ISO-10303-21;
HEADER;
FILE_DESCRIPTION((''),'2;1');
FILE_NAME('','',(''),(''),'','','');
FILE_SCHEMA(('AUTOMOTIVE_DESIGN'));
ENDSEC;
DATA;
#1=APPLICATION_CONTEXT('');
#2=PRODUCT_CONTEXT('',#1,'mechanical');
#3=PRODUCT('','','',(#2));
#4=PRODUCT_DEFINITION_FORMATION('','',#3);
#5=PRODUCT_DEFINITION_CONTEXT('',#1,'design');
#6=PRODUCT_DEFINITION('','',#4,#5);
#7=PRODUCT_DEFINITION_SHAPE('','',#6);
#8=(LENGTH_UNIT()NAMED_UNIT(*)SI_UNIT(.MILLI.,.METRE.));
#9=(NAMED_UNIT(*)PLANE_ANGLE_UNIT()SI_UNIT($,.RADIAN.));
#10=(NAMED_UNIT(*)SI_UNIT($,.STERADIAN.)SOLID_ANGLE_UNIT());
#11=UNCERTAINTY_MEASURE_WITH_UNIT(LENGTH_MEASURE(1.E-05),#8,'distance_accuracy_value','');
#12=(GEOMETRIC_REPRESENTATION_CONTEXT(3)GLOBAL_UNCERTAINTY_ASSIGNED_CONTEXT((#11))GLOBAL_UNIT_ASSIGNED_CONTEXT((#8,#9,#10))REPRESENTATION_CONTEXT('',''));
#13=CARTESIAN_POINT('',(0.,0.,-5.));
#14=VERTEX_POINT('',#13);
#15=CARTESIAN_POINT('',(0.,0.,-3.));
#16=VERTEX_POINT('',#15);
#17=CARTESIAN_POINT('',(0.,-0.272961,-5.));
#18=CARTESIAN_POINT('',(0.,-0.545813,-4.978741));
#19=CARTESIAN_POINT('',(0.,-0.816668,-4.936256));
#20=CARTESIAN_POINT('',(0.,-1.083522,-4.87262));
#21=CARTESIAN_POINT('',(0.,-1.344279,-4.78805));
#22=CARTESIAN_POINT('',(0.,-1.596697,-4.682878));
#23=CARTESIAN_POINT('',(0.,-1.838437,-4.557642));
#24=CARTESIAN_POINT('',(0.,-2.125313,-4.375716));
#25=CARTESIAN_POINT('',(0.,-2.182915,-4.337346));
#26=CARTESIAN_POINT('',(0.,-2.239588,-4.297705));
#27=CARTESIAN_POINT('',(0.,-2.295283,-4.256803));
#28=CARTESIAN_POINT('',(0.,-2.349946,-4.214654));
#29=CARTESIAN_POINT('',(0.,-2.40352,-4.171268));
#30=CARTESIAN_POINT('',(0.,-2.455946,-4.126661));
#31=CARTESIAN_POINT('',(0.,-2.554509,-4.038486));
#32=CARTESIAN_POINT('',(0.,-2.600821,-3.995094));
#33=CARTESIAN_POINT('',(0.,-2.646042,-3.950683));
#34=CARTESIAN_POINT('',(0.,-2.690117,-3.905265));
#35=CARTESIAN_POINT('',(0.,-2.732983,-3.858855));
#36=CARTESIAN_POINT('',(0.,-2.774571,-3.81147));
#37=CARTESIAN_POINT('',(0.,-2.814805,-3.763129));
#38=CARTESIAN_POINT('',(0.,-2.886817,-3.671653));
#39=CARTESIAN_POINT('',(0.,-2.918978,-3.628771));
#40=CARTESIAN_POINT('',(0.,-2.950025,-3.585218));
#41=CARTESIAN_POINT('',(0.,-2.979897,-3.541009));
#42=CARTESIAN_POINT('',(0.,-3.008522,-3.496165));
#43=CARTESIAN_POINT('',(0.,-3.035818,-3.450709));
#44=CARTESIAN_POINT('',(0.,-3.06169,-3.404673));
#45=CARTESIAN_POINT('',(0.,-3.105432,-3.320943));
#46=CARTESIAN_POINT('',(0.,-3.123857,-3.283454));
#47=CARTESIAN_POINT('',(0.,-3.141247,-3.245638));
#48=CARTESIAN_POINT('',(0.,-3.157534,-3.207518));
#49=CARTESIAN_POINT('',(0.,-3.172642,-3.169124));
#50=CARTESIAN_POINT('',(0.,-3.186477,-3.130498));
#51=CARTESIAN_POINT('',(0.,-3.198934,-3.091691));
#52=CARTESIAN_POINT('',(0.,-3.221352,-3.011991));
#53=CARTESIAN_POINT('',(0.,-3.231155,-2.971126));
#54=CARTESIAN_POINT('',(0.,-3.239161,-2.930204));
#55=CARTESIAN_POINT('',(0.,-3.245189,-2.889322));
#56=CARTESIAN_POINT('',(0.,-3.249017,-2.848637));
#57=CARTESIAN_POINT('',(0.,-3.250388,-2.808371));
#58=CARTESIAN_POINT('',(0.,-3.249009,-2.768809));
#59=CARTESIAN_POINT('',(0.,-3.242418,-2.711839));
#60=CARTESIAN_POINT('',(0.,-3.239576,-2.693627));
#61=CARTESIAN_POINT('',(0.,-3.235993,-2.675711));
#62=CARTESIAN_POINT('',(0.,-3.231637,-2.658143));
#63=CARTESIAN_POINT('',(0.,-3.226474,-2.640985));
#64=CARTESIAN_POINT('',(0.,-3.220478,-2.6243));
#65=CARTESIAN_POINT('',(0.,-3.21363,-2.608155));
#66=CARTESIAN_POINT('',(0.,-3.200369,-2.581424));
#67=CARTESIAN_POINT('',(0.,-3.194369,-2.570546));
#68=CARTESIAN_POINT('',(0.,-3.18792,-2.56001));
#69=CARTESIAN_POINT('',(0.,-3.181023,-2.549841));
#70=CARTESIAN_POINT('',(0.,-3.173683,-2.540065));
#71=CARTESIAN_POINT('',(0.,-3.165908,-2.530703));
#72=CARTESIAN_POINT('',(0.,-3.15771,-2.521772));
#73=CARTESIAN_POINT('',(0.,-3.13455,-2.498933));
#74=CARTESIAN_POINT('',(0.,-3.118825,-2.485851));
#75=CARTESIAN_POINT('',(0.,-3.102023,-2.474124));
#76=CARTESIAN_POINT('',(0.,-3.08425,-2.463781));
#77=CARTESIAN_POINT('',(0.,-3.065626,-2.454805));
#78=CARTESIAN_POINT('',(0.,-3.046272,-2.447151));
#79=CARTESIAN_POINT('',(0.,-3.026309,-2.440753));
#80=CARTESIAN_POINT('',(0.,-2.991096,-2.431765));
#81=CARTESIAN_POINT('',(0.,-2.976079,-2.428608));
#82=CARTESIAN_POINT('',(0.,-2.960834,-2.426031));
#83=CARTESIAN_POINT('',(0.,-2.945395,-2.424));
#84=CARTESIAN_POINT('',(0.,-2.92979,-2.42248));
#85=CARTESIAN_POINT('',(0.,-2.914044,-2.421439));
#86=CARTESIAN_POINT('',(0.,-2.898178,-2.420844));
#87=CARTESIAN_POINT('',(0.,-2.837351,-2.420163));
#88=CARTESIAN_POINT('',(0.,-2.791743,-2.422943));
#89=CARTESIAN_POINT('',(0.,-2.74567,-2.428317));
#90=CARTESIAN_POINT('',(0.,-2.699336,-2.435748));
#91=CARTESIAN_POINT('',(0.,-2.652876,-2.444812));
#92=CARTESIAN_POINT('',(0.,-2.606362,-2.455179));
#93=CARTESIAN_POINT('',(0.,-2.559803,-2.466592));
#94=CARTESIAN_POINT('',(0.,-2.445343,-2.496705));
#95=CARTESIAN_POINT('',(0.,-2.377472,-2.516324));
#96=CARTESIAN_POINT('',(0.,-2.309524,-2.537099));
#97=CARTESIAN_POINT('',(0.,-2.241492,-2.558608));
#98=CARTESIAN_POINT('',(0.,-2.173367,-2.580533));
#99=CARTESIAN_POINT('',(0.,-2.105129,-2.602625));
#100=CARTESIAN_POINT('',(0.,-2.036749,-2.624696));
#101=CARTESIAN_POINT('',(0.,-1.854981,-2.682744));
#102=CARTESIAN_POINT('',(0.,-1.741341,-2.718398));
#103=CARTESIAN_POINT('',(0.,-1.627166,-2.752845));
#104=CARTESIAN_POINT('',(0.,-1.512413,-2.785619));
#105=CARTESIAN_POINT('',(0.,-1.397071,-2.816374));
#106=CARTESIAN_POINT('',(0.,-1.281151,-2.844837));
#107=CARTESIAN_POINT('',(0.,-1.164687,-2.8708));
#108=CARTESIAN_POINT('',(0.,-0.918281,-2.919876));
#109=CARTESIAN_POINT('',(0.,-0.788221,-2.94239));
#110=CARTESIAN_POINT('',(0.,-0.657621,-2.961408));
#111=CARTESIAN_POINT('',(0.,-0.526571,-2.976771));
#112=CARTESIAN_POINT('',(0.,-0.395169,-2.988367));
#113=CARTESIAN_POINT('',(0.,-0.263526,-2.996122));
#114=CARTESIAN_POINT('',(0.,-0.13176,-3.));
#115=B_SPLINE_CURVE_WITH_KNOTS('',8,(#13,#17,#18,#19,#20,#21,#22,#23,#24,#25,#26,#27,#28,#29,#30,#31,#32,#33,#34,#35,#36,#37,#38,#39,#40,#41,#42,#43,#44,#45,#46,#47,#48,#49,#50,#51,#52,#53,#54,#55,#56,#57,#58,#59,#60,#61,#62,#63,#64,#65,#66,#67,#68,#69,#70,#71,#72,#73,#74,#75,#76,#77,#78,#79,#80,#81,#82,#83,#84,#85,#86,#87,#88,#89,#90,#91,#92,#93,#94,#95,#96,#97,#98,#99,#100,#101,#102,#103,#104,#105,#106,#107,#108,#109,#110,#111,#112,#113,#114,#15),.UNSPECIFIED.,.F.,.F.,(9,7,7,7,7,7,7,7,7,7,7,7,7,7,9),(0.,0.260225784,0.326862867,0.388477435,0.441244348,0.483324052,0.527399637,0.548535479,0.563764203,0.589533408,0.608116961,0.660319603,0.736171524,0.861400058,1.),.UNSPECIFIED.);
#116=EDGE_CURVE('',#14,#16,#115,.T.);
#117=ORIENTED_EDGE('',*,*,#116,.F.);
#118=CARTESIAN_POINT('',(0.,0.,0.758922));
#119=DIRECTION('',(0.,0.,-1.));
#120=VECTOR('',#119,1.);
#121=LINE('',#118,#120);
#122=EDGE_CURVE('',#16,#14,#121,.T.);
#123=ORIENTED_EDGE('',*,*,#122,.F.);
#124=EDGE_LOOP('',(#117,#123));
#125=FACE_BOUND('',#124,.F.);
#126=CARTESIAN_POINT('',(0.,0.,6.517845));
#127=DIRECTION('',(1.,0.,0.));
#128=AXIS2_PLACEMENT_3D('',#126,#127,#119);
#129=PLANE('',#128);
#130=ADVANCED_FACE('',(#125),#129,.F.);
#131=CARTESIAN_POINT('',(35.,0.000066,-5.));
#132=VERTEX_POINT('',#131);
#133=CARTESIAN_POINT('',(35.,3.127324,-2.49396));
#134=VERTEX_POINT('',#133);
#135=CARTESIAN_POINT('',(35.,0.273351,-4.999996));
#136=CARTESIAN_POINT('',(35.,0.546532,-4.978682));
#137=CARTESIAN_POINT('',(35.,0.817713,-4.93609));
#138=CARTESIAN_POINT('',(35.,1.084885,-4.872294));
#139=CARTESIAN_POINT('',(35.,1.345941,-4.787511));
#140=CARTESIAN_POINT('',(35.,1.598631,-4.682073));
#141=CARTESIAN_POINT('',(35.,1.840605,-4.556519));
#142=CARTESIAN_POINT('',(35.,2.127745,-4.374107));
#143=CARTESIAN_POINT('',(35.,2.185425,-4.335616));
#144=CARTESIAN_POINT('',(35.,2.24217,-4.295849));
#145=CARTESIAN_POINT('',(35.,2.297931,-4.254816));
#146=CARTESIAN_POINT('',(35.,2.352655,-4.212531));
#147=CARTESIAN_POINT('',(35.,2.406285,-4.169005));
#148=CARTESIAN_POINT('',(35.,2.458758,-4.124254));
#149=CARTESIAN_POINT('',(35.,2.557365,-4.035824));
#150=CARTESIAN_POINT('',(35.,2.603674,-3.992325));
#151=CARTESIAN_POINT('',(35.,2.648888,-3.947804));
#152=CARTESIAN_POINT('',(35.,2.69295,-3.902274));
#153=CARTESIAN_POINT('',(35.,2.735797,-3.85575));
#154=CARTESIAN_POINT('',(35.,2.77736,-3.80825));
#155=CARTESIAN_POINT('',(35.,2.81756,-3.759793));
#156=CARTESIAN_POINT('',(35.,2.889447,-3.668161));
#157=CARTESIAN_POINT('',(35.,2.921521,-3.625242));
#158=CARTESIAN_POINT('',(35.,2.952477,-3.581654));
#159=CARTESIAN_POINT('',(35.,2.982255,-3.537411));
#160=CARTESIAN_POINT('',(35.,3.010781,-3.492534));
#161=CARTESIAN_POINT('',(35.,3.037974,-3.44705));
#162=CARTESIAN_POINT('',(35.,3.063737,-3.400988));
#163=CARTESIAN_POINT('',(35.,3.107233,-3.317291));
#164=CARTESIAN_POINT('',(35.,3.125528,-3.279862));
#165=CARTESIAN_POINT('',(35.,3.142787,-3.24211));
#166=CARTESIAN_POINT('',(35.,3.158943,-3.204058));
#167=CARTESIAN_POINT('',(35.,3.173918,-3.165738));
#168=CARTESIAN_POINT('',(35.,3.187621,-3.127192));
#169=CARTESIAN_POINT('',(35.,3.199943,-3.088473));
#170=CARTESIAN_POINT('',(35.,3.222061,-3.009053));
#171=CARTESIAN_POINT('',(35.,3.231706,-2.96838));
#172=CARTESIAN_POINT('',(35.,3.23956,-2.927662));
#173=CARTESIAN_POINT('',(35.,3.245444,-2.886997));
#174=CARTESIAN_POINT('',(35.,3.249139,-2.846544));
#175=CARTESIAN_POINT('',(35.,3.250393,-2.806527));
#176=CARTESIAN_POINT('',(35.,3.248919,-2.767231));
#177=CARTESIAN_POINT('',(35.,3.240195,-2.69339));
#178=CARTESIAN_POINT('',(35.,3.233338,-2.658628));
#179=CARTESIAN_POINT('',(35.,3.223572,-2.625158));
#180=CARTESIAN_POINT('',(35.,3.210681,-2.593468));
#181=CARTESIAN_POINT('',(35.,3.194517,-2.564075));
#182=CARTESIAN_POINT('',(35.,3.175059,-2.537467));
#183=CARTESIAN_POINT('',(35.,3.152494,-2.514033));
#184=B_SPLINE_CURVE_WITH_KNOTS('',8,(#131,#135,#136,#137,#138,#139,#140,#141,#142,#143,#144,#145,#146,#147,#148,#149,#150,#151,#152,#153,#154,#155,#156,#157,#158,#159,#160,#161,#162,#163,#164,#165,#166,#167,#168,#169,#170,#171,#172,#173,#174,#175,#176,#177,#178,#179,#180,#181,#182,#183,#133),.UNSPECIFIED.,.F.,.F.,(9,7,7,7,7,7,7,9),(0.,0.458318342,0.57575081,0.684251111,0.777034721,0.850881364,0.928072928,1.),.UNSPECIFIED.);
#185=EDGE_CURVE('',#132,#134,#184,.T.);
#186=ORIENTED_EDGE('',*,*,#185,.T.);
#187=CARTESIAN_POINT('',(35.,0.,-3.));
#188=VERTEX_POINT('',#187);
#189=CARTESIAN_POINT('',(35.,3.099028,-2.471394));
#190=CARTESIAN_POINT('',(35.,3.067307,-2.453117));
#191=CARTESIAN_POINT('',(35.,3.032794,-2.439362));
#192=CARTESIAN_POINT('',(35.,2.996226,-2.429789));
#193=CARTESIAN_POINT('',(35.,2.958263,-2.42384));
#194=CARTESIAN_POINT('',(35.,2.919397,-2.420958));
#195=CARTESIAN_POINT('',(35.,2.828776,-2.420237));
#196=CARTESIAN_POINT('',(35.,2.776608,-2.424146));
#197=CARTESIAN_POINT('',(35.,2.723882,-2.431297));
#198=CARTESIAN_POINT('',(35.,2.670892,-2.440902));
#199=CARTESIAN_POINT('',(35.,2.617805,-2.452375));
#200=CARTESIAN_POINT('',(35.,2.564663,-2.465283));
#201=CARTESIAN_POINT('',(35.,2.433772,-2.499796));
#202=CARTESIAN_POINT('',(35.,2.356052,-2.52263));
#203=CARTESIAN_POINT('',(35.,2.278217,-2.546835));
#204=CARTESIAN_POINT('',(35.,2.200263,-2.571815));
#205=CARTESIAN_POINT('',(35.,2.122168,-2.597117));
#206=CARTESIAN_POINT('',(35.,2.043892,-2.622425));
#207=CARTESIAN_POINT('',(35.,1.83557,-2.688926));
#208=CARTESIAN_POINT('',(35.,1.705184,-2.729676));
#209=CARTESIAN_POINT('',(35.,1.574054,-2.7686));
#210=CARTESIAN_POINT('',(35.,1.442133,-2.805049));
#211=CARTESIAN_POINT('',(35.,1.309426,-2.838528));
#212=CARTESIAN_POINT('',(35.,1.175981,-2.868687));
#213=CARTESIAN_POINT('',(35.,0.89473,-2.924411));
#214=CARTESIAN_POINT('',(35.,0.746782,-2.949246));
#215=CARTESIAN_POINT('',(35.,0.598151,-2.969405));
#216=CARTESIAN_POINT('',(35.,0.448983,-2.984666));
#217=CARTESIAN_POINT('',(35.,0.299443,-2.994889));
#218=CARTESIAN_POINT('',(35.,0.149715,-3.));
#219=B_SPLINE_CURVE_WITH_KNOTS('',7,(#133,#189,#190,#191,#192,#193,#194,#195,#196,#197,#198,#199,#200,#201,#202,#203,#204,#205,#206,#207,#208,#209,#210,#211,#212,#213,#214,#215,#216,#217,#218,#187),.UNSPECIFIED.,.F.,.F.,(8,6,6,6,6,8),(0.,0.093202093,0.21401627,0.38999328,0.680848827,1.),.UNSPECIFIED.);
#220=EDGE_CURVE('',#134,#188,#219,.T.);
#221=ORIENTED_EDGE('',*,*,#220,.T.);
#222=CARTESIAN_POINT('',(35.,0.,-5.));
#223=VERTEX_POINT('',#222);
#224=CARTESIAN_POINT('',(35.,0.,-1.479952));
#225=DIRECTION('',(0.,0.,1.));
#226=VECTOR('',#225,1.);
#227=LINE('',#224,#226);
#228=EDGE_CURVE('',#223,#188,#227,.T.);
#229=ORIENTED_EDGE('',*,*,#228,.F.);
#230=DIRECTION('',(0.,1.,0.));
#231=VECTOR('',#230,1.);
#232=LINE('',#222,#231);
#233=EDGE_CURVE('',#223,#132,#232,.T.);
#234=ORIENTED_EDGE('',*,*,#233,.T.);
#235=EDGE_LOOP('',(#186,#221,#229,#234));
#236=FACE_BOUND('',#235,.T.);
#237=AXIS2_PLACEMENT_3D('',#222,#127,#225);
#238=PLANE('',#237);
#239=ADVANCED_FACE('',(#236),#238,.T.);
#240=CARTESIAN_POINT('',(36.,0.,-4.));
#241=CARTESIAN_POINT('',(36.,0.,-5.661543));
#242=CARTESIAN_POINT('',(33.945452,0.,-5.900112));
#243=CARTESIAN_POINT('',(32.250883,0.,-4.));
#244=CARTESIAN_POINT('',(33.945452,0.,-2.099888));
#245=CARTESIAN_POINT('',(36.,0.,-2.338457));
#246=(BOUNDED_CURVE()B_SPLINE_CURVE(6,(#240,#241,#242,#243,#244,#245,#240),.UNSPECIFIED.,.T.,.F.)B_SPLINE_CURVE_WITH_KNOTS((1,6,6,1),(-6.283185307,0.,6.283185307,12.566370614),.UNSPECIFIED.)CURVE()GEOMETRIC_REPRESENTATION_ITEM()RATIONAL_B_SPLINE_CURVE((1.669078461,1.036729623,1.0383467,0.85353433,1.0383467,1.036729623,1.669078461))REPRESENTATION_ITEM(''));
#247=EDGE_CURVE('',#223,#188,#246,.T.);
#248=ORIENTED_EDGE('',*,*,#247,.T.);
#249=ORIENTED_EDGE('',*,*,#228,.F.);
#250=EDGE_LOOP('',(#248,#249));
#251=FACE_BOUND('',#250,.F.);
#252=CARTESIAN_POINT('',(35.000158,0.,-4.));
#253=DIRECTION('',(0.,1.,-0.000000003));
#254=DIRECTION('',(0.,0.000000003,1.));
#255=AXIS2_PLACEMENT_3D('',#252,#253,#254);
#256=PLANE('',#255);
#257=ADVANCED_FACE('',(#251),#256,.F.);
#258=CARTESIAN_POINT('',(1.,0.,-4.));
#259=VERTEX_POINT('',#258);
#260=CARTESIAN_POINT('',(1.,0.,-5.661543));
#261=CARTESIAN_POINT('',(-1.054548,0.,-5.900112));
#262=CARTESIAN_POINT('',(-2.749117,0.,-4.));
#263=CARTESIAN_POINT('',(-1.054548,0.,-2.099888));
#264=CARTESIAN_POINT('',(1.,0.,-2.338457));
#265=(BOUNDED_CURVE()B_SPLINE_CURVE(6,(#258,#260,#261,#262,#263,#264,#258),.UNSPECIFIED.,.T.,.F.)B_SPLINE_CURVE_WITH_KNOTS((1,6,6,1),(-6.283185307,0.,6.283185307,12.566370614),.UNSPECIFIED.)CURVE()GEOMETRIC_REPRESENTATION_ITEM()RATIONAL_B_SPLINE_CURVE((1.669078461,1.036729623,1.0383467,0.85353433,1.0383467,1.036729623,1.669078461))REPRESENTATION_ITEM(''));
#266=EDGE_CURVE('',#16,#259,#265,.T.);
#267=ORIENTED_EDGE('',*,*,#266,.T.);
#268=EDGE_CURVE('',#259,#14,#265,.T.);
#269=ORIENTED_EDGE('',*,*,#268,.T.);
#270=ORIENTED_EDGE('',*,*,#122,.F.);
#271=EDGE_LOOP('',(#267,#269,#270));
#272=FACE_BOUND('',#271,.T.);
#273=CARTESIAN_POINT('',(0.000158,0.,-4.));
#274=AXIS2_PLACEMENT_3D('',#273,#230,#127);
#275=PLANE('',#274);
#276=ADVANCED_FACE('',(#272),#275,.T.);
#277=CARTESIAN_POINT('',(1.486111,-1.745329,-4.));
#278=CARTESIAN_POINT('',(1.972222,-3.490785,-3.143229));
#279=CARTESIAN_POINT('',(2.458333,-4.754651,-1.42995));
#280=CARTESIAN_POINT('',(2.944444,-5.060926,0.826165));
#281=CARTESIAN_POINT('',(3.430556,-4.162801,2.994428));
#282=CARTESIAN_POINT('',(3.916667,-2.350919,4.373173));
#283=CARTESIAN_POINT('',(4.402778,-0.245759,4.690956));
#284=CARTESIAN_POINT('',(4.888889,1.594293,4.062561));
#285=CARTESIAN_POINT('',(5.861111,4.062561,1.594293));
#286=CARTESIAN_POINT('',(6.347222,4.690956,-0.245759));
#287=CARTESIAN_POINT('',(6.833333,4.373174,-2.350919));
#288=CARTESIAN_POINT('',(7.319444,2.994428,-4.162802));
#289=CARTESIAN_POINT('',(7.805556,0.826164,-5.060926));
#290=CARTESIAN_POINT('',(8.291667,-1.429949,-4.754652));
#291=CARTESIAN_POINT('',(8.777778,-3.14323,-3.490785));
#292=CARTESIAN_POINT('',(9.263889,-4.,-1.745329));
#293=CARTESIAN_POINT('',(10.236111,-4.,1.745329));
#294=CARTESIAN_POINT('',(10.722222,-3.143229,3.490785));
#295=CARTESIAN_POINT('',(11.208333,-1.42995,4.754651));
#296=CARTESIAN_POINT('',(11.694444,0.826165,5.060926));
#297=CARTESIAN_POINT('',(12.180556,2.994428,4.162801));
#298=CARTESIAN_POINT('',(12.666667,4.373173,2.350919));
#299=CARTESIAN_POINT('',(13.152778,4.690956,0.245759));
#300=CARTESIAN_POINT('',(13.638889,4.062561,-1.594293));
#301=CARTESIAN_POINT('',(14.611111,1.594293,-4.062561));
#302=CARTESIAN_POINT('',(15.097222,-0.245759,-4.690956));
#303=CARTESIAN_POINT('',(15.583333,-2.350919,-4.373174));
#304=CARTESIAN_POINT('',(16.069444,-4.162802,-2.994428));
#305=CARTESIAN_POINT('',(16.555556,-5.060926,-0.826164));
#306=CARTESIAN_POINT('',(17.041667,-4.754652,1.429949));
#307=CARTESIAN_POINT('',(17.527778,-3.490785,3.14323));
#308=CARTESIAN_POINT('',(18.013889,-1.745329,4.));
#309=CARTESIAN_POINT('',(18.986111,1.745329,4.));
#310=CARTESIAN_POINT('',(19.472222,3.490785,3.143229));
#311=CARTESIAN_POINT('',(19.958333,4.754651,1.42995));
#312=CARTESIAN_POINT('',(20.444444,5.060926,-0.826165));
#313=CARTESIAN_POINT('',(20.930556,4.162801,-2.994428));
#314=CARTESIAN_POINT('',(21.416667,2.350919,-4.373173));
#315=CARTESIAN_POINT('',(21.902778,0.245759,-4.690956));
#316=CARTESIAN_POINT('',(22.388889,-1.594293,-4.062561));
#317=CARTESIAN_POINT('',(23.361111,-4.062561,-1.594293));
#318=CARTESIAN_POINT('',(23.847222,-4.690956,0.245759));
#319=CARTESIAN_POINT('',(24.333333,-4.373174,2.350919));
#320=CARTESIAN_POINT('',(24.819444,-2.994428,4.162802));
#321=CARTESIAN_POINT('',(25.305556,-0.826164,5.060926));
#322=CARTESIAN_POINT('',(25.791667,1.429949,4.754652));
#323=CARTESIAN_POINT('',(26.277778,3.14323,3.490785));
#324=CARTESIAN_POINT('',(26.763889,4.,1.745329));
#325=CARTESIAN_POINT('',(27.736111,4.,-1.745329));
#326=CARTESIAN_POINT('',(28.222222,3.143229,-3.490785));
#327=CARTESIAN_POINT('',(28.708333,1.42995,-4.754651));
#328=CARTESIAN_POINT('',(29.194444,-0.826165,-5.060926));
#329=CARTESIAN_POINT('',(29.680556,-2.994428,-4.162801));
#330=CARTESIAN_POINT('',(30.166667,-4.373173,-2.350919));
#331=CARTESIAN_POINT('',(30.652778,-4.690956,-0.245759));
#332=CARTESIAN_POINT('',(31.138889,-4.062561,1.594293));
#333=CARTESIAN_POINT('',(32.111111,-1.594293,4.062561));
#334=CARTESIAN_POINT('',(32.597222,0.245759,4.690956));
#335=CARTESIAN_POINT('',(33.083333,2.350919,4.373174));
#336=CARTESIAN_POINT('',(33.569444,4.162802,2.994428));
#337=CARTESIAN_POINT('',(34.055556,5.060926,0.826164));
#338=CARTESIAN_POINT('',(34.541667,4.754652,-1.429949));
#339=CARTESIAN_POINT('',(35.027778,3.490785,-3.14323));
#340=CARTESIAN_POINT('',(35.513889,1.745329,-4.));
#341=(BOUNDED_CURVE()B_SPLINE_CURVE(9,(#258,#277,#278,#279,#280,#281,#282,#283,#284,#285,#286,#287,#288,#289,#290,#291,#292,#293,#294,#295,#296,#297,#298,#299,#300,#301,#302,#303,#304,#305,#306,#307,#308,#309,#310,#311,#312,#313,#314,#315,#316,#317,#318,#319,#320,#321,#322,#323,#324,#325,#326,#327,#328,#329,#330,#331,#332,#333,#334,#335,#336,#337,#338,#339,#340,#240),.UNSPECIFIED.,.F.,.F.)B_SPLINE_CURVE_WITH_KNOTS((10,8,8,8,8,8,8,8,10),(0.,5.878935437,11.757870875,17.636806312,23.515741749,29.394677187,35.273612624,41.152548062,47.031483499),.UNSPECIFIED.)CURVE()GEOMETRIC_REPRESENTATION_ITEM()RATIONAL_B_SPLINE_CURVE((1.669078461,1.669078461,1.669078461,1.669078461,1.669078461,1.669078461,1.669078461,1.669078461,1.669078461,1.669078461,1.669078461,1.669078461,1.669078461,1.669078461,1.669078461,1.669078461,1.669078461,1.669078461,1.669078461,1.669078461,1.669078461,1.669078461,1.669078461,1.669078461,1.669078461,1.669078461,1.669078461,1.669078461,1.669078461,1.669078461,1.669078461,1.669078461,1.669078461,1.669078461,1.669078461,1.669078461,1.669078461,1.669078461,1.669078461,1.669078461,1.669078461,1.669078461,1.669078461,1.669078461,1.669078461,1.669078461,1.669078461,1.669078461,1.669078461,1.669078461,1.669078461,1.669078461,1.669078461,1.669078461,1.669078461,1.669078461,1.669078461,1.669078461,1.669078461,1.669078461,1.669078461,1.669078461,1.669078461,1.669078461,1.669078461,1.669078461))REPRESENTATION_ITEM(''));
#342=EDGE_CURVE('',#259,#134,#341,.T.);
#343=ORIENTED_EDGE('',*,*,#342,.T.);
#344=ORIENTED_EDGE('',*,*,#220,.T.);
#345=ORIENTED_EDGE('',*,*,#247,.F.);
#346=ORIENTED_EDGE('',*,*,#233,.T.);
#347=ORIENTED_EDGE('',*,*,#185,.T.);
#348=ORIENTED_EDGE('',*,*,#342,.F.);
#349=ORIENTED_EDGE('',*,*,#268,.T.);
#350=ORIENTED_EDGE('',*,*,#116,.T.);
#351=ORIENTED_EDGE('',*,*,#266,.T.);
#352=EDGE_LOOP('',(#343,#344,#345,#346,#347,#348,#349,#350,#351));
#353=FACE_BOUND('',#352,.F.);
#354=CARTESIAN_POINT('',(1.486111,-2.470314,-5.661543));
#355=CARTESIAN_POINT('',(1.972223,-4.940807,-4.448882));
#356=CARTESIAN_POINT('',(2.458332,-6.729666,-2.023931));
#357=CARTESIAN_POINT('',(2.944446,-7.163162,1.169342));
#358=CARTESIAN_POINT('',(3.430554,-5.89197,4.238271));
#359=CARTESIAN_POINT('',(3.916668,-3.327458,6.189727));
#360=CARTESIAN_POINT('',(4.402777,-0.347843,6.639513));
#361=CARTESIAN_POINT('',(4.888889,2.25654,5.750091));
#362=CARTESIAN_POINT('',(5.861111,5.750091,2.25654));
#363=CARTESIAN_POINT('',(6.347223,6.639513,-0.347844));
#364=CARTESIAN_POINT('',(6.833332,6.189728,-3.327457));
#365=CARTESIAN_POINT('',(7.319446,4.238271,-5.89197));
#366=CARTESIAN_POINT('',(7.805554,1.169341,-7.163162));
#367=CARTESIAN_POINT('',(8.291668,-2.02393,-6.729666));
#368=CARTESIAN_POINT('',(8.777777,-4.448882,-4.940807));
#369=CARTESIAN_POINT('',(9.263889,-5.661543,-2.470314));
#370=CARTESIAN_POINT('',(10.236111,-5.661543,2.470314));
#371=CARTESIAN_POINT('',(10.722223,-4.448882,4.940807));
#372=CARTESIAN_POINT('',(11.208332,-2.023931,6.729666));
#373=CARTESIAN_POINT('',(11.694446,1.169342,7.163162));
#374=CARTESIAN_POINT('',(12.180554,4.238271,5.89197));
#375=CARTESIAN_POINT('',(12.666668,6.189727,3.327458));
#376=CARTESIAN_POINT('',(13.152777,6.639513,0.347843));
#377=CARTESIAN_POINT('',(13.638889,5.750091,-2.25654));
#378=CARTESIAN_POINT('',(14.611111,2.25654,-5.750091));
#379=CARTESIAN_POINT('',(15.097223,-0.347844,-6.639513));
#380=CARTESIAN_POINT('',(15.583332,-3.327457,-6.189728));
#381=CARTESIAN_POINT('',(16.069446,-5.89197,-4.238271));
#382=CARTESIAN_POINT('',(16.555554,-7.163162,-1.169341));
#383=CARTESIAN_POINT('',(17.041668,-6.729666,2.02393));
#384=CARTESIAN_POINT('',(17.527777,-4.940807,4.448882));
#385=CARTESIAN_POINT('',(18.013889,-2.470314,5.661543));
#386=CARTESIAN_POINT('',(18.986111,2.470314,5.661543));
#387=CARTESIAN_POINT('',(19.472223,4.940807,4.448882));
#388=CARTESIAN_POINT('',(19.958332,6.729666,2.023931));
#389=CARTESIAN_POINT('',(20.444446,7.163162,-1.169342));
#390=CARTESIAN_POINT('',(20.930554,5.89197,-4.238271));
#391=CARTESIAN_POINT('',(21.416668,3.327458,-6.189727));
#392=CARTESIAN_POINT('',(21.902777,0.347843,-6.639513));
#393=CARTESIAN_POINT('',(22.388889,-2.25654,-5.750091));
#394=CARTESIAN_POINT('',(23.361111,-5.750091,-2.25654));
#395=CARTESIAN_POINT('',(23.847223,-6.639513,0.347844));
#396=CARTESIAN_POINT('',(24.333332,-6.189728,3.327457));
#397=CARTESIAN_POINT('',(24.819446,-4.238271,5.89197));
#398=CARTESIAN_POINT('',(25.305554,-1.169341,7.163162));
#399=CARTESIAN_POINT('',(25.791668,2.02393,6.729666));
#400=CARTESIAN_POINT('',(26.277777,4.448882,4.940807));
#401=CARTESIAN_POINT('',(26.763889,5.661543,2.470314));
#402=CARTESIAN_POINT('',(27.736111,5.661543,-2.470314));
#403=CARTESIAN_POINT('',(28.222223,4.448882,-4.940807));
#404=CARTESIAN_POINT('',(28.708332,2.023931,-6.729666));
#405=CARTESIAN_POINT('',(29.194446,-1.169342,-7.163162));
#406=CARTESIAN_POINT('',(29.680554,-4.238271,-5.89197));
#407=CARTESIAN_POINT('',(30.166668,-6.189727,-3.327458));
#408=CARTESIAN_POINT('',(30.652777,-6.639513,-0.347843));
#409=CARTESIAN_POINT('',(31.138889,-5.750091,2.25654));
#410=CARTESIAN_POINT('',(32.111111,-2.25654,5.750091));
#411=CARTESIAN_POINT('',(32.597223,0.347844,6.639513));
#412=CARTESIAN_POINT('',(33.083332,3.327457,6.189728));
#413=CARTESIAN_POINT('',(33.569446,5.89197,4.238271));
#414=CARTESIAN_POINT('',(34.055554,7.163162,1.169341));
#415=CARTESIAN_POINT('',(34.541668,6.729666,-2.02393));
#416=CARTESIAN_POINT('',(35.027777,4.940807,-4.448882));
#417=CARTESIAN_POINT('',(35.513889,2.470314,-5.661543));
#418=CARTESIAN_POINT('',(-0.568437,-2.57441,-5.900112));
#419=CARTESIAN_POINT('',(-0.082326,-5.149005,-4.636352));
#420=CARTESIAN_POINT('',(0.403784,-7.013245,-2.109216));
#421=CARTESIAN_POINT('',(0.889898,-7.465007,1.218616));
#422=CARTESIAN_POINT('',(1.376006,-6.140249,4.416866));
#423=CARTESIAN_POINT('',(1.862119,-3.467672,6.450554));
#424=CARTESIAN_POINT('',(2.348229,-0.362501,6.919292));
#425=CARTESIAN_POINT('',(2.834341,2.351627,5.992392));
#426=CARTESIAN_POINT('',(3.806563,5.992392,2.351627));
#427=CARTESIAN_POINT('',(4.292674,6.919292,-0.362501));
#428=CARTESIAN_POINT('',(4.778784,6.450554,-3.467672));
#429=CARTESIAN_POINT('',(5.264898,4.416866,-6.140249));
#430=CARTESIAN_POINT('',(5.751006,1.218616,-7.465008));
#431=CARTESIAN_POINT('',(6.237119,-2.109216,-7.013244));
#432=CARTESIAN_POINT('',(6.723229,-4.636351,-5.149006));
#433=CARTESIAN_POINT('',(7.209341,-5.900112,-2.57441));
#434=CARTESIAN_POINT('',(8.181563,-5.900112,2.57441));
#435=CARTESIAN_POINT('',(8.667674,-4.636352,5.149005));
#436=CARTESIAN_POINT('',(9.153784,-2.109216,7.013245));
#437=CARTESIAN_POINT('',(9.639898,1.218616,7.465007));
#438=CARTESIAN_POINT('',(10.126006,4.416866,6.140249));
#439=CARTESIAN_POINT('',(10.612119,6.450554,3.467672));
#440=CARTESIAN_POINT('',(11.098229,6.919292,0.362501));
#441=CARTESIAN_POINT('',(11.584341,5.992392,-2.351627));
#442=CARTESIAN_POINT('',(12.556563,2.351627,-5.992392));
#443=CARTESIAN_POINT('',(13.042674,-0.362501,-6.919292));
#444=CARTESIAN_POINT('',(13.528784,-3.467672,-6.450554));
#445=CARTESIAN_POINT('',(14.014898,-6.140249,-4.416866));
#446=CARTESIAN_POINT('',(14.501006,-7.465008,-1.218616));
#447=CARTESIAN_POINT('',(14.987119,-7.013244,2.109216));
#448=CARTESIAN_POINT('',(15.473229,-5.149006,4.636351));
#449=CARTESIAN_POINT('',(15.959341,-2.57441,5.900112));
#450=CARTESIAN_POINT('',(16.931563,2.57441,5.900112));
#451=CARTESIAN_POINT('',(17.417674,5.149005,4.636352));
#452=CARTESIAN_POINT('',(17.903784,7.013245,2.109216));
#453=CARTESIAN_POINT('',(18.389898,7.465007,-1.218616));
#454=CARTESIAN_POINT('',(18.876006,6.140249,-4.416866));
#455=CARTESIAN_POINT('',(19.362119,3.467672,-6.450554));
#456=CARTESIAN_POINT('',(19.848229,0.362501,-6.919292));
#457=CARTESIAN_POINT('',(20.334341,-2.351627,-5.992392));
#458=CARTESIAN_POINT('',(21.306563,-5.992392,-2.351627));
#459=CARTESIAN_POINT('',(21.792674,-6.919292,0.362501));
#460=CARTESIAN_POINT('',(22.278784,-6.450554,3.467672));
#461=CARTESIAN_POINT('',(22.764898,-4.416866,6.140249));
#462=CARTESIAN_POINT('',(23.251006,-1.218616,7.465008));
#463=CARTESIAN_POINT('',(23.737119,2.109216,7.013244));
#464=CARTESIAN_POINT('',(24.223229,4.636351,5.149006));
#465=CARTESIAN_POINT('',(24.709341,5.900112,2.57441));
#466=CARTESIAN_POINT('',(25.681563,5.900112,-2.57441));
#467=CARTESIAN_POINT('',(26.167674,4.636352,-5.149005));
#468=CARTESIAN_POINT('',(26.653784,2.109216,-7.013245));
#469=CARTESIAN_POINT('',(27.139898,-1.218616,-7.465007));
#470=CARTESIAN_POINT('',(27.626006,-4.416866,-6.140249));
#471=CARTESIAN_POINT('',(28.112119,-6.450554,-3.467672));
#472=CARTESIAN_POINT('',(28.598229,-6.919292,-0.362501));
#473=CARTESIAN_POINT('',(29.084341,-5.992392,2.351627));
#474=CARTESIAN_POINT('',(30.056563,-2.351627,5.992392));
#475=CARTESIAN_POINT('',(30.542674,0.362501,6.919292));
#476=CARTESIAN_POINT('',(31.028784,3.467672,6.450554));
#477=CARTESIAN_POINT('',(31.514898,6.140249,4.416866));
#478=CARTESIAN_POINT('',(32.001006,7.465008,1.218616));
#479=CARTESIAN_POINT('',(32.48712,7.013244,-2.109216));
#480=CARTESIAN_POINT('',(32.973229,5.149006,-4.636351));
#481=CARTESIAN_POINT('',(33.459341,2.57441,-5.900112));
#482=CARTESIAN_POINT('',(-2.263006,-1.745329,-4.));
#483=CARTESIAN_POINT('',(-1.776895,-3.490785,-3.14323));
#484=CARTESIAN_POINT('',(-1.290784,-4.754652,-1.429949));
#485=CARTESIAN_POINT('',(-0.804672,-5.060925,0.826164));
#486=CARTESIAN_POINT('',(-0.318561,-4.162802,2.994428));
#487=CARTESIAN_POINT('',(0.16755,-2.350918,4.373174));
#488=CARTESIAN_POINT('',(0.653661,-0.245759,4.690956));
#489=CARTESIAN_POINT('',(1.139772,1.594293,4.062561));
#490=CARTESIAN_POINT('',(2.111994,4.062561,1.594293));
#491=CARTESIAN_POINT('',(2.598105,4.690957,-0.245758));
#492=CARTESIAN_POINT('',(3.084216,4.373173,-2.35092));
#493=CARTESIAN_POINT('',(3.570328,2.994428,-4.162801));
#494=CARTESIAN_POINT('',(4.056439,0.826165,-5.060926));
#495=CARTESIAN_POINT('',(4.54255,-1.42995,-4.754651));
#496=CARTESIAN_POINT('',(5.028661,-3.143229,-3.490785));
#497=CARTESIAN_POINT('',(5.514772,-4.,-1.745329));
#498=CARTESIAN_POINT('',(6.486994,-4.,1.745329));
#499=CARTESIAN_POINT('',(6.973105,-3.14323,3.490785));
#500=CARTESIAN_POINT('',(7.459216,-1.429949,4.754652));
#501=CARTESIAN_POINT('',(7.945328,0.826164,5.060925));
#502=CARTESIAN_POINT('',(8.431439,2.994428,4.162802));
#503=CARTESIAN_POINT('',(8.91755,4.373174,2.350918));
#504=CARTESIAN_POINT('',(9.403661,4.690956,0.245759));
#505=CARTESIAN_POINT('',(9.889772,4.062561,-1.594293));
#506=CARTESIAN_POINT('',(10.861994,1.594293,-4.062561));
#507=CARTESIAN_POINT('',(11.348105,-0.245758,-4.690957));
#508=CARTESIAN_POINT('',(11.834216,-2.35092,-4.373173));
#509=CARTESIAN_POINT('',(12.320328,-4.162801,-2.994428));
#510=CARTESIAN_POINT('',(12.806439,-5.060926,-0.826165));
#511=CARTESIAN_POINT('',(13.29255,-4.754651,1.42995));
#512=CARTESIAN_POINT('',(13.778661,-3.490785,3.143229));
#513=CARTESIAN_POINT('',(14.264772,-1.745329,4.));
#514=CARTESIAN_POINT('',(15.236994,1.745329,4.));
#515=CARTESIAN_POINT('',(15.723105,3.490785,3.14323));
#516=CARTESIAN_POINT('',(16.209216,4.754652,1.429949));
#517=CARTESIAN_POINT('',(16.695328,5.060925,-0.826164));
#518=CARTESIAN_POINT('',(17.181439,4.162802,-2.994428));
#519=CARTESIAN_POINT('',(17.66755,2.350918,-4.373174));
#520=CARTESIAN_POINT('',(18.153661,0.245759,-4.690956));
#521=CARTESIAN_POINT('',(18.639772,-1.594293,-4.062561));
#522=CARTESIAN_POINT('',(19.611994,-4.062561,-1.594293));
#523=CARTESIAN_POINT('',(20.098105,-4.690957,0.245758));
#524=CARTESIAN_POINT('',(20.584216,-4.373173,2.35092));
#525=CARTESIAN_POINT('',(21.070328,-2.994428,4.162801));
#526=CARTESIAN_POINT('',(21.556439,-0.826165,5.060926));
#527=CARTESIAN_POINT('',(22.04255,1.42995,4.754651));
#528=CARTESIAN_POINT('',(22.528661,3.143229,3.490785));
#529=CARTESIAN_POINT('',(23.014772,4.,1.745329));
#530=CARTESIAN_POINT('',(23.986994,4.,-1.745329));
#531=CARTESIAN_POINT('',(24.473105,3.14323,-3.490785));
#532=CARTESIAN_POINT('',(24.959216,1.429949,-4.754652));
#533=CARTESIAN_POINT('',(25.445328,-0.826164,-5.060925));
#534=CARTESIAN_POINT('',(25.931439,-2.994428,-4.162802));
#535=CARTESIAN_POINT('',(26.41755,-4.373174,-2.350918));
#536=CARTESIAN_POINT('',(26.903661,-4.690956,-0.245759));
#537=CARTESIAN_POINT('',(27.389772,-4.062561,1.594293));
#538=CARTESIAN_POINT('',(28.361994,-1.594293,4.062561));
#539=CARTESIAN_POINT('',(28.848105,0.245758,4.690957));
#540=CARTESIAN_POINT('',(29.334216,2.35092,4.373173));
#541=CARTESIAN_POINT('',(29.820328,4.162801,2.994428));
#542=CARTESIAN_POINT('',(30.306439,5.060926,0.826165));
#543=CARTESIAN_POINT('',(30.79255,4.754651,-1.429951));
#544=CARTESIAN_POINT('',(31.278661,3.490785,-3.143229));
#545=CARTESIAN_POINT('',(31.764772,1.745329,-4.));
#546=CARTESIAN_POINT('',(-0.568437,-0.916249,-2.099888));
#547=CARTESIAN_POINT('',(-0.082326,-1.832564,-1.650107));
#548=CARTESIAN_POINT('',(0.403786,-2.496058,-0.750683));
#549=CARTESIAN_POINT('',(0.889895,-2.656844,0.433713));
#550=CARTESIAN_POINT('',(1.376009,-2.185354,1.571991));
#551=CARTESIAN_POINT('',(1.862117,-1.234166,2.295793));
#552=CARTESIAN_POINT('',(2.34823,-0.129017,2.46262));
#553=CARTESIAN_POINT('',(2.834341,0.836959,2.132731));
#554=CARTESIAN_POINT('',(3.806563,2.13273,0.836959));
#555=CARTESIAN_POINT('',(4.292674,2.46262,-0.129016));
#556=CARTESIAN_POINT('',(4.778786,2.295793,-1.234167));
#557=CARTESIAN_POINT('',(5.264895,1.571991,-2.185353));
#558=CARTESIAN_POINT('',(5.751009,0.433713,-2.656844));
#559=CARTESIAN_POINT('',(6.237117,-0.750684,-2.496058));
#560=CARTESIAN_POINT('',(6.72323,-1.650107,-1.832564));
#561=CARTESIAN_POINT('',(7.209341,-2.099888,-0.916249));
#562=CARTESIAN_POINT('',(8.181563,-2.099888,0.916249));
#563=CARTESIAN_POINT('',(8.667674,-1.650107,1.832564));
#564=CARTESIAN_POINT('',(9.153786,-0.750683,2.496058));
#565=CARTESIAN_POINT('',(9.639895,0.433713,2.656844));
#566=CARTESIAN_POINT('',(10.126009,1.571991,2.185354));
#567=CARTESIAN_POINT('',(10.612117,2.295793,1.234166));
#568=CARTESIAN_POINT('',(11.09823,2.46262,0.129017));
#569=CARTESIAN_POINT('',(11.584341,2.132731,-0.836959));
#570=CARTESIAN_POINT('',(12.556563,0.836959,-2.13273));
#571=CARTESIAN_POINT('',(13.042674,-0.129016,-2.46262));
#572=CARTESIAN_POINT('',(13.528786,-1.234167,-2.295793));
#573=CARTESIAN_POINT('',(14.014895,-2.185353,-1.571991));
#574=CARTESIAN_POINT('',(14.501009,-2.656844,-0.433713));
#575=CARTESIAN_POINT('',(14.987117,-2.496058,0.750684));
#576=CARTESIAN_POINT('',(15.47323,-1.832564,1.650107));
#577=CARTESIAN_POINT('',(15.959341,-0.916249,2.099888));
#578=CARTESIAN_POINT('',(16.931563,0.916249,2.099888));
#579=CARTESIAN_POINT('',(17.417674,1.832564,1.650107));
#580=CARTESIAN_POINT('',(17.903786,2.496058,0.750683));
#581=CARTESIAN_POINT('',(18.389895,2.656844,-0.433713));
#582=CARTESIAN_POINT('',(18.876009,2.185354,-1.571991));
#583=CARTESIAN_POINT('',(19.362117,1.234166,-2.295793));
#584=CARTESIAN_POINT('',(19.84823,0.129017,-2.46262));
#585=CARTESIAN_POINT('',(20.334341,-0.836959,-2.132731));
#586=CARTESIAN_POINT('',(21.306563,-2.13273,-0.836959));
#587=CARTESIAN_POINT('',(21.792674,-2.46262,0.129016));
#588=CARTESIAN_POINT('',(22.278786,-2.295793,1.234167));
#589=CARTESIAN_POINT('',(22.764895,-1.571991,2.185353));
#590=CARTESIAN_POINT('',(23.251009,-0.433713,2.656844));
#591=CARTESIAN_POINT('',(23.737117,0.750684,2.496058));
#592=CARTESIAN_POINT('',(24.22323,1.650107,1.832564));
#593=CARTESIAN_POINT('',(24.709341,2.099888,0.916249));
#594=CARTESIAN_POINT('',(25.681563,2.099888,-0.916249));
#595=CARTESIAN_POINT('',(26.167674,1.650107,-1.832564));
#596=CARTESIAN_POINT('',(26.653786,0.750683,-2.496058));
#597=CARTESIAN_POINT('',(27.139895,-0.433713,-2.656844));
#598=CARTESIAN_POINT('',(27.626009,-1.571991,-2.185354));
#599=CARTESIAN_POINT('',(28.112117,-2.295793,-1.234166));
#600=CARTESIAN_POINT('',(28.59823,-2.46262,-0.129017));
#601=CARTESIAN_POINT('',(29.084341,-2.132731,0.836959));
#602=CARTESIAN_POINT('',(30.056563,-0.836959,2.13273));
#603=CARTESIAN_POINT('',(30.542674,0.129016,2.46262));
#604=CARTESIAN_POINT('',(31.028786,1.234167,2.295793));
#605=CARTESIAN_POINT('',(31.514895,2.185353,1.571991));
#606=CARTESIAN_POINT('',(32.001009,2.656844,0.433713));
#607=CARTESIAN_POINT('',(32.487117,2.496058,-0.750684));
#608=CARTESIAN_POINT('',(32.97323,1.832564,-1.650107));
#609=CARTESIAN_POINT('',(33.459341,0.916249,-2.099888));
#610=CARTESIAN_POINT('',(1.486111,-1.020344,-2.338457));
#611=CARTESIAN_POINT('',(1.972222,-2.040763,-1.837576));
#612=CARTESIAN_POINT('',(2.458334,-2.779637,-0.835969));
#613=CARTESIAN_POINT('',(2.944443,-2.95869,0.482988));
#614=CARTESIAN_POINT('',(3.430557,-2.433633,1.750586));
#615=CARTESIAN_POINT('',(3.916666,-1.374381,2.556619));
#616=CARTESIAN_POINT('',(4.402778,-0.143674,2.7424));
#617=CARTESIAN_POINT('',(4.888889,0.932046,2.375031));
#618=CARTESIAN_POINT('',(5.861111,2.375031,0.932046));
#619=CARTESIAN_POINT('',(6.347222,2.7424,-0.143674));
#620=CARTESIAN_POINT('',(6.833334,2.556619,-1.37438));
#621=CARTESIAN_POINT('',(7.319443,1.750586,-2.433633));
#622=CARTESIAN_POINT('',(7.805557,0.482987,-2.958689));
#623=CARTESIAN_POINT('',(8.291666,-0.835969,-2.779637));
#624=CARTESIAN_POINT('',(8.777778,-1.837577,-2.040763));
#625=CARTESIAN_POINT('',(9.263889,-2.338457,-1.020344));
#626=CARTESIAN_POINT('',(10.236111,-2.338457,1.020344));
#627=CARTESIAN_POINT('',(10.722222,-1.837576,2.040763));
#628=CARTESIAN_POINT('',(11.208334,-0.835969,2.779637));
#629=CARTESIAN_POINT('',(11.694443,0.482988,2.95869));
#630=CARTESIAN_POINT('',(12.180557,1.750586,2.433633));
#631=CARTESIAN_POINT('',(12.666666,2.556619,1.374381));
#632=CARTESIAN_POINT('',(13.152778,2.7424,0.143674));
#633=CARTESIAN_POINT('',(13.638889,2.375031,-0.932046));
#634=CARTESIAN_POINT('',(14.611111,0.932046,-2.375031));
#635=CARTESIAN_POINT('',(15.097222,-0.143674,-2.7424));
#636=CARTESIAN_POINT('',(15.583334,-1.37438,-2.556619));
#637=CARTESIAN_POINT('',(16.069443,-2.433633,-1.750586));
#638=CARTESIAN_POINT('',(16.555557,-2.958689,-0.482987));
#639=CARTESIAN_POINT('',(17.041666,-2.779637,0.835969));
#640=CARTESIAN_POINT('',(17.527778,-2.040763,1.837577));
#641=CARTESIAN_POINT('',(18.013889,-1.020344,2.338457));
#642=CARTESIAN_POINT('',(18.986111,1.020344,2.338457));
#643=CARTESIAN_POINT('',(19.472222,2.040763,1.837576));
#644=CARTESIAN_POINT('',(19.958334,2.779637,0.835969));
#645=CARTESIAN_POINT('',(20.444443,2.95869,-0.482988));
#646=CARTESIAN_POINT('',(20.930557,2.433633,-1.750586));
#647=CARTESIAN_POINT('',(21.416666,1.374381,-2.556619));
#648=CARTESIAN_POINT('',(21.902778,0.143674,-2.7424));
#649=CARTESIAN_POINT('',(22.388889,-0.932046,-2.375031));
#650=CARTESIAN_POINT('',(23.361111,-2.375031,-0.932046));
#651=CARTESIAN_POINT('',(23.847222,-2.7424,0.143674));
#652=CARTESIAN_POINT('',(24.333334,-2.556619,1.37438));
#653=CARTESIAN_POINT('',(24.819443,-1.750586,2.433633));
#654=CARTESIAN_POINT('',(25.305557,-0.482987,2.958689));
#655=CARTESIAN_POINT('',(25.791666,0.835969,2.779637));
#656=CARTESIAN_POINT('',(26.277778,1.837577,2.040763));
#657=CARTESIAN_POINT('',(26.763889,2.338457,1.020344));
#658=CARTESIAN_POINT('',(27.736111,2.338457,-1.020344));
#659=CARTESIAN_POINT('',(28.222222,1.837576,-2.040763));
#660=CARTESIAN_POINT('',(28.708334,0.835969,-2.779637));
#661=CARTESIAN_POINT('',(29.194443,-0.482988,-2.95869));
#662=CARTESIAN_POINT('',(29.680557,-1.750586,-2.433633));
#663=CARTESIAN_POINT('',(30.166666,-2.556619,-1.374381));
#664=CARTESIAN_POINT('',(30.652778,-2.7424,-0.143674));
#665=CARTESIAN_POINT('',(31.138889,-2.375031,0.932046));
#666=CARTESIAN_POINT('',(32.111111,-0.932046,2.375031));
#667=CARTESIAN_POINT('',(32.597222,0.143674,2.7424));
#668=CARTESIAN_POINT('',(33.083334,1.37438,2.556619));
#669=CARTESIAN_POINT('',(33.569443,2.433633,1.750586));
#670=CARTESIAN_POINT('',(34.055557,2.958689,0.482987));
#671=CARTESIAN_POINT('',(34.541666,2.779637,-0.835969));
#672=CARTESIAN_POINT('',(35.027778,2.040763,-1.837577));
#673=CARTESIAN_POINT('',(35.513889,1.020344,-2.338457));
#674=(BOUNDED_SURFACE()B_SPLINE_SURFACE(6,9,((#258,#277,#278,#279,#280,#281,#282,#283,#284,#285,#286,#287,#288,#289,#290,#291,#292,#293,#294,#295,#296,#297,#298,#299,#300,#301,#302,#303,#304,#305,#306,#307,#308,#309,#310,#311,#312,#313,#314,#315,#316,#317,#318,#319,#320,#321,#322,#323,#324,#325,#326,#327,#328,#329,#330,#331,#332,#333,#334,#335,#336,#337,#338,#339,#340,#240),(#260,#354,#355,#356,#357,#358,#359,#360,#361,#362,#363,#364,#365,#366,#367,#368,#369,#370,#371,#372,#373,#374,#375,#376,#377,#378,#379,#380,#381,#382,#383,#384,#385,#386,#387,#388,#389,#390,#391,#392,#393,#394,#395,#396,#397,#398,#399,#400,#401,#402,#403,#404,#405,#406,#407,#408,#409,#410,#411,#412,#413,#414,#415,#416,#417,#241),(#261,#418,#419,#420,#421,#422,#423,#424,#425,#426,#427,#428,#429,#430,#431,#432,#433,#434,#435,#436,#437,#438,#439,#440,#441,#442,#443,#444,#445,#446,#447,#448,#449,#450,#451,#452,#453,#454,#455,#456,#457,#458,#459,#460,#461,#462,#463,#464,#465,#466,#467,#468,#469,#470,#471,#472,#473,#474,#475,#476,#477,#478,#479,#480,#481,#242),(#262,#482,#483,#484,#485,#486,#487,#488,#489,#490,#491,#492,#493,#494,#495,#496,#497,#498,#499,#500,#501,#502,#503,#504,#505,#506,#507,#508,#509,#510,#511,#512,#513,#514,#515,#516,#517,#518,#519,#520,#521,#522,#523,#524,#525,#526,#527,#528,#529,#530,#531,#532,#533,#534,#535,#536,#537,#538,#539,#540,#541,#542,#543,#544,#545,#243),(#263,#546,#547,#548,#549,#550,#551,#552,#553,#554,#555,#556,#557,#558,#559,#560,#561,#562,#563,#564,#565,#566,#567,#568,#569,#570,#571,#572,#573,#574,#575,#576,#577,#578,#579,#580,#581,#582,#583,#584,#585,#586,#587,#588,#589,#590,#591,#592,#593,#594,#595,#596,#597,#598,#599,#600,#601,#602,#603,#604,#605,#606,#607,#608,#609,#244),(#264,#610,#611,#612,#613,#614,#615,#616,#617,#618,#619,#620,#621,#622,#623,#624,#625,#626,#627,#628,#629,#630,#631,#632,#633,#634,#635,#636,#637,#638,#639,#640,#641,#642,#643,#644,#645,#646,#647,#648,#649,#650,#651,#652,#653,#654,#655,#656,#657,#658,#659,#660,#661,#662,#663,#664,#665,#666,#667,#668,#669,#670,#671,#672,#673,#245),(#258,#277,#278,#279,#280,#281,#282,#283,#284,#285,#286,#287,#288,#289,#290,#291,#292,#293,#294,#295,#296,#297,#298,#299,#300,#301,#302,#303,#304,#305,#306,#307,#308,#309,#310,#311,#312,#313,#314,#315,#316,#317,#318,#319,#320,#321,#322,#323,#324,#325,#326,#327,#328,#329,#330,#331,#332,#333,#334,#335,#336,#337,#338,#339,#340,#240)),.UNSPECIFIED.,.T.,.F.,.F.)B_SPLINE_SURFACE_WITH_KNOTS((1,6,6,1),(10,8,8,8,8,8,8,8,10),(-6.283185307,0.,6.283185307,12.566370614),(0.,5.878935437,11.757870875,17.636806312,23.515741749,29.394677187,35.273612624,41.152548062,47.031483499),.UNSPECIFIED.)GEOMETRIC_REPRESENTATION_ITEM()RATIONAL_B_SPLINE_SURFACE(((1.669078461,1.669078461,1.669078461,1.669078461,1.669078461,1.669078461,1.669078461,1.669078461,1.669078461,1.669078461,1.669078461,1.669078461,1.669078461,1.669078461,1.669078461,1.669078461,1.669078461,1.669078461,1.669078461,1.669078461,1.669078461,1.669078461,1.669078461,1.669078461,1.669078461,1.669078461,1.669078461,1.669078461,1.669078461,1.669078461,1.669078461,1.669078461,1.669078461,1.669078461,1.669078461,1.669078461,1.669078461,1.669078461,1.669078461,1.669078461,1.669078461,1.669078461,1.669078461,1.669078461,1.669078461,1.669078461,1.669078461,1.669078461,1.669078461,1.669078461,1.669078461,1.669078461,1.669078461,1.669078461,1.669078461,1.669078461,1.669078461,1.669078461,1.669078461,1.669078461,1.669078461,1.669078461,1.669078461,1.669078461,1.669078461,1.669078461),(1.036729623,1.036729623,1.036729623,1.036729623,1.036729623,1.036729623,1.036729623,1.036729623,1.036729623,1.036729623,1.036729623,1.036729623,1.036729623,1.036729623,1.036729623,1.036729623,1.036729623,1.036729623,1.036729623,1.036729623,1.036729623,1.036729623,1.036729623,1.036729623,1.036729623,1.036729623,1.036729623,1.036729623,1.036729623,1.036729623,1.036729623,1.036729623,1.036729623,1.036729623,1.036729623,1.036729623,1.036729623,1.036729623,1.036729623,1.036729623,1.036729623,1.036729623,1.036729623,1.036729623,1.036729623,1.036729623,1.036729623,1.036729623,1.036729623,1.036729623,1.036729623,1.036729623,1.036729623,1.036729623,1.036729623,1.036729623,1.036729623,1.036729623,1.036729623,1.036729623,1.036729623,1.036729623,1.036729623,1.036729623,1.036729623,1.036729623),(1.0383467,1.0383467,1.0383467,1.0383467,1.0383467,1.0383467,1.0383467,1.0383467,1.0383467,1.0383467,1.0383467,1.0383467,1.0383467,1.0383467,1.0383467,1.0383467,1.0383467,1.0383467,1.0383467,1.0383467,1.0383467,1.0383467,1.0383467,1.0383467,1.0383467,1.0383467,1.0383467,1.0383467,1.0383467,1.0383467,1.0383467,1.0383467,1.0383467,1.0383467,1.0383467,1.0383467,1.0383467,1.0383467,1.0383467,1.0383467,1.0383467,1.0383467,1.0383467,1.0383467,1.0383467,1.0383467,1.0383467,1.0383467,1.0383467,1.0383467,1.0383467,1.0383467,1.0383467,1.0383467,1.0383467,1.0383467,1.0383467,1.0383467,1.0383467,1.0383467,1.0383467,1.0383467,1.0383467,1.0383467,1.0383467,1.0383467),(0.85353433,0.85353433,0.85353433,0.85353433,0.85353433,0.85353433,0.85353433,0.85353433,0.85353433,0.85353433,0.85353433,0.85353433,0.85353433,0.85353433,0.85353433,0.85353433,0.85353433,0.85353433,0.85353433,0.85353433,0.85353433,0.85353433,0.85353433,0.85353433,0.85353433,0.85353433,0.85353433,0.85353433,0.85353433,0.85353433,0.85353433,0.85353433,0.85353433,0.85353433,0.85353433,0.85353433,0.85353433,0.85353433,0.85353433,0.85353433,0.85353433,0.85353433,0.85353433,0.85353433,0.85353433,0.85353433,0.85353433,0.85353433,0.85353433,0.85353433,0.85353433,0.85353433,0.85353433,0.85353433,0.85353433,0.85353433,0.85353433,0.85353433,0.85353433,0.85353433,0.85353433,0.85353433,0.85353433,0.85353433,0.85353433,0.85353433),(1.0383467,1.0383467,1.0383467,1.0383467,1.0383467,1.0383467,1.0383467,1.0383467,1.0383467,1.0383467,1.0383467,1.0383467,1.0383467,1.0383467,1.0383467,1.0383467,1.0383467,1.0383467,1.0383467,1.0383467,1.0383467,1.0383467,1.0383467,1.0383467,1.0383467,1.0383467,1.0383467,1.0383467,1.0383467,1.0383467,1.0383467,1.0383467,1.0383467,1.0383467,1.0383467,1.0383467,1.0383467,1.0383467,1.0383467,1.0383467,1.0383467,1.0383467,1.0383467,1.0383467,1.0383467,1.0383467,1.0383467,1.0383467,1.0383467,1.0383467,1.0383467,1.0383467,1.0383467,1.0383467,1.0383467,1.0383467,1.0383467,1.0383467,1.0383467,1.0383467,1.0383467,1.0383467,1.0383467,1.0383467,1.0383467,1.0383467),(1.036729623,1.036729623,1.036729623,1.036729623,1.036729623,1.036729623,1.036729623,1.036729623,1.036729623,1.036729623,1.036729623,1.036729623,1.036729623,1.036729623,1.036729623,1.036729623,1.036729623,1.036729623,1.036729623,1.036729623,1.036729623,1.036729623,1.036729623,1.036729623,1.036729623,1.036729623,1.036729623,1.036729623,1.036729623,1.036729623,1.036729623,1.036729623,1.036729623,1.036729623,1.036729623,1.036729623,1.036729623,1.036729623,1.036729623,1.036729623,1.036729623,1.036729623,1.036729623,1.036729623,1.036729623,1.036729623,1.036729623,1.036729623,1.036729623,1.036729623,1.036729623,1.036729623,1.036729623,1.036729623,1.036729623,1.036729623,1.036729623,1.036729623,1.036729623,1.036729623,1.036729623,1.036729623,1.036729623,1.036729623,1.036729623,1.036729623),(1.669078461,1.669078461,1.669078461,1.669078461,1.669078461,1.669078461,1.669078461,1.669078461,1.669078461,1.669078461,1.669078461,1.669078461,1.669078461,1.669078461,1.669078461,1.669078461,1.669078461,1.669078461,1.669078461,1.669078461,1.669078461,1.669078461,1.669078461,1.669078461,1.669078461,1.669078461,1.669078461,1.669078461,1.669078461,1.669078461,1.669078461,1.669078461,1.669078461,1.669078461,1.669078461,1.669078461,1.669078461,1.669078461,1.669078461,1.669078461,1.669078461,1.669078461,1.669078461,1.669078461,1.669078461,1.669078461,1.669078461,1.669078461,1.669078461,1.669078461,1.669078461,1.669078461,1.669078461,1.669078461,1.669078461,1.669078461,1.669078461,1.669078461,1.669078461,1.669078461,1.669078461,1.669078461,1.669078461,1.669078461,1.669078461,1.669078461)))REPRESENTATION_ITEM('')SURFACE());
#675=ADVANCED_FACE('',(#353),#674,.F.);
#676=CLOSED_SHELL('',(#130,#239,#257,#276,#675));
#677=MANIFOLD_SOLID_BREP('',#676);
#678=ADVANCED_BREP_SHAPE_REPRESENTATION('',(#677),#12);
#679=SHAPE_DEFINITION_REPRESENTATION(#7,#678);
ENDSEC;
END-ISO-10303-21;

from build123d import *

# Parameters (mm, degrees)
SWEEP1_PITCH       = 7
SWEEP1_HEIGHT      = 35
SWEEP1_RADIUS      = 4
SWEEP1_START_ANGLE = 180
SKETCH2_R          = 1
SKETCH3_W          = 5.882080184
SKETCH3_H          = 11.517844516
CUT_EXTRUDE1_DEPTH = 10
SKETCH4_W          = 3.261207621
SKETCH4_H          = 7.040096259
CUT_EXTRUDE2_DEPTH = 10


with BuildPart() as part:
    # Sweep1: sweep along a helix
    with BuildLine() as sweep1_path:
        add(Helix(SWEEP1_PITCH, SWEEP1_HEIGHT, SWEEP1_RADIUS, center=(0, 0, 0), direction=(1, 0, 0), lefthand=True, mode=Mode.PRIVATE).rotate(Axis((0, 0, 0), (1, 0, 0)), SWEEP1_START_ANGLE))
    # Sketch2 → Sweep1 (sweep)
    with BuildSketch(Plane(origin=(0, 0, 0), x_dir=(1, 0, 0), z_dir=(0, 1, 0))):
        with Locations((0, 4)):
            Circle(SKETCH2_R)
    sweep(path=sweep1_path.line, is_frenet=True)

    # Sketch3 → Cut-Extrude1 (cut)
    with BuildSketch(Plane(origin=(0, 0, 0), x_dir=(1, 0, 0), z_dir=(0, 1, 0))):
        with Locations((-2.941040092, -0.758922258)):
            Rectangle(SKETCH3_W, SKETCH3_H)
    extrude(amount=-CUT_EXTRUDE1_DEPTH, mode=Mode.SUBTRACT)

    # Sketch4 → Cut-Extrude2 (cut)
    with BuildSketch(Plane.XZ):
        with Locations((36.630603811, -1.47995187)):
            Rectangle(SKETCH4_W, SKETCH4_H)
    extrude(amount=-CUT_EXTRUDE2_DEPTH, mode=Mode.SUBTRACT)


solid = part.part
